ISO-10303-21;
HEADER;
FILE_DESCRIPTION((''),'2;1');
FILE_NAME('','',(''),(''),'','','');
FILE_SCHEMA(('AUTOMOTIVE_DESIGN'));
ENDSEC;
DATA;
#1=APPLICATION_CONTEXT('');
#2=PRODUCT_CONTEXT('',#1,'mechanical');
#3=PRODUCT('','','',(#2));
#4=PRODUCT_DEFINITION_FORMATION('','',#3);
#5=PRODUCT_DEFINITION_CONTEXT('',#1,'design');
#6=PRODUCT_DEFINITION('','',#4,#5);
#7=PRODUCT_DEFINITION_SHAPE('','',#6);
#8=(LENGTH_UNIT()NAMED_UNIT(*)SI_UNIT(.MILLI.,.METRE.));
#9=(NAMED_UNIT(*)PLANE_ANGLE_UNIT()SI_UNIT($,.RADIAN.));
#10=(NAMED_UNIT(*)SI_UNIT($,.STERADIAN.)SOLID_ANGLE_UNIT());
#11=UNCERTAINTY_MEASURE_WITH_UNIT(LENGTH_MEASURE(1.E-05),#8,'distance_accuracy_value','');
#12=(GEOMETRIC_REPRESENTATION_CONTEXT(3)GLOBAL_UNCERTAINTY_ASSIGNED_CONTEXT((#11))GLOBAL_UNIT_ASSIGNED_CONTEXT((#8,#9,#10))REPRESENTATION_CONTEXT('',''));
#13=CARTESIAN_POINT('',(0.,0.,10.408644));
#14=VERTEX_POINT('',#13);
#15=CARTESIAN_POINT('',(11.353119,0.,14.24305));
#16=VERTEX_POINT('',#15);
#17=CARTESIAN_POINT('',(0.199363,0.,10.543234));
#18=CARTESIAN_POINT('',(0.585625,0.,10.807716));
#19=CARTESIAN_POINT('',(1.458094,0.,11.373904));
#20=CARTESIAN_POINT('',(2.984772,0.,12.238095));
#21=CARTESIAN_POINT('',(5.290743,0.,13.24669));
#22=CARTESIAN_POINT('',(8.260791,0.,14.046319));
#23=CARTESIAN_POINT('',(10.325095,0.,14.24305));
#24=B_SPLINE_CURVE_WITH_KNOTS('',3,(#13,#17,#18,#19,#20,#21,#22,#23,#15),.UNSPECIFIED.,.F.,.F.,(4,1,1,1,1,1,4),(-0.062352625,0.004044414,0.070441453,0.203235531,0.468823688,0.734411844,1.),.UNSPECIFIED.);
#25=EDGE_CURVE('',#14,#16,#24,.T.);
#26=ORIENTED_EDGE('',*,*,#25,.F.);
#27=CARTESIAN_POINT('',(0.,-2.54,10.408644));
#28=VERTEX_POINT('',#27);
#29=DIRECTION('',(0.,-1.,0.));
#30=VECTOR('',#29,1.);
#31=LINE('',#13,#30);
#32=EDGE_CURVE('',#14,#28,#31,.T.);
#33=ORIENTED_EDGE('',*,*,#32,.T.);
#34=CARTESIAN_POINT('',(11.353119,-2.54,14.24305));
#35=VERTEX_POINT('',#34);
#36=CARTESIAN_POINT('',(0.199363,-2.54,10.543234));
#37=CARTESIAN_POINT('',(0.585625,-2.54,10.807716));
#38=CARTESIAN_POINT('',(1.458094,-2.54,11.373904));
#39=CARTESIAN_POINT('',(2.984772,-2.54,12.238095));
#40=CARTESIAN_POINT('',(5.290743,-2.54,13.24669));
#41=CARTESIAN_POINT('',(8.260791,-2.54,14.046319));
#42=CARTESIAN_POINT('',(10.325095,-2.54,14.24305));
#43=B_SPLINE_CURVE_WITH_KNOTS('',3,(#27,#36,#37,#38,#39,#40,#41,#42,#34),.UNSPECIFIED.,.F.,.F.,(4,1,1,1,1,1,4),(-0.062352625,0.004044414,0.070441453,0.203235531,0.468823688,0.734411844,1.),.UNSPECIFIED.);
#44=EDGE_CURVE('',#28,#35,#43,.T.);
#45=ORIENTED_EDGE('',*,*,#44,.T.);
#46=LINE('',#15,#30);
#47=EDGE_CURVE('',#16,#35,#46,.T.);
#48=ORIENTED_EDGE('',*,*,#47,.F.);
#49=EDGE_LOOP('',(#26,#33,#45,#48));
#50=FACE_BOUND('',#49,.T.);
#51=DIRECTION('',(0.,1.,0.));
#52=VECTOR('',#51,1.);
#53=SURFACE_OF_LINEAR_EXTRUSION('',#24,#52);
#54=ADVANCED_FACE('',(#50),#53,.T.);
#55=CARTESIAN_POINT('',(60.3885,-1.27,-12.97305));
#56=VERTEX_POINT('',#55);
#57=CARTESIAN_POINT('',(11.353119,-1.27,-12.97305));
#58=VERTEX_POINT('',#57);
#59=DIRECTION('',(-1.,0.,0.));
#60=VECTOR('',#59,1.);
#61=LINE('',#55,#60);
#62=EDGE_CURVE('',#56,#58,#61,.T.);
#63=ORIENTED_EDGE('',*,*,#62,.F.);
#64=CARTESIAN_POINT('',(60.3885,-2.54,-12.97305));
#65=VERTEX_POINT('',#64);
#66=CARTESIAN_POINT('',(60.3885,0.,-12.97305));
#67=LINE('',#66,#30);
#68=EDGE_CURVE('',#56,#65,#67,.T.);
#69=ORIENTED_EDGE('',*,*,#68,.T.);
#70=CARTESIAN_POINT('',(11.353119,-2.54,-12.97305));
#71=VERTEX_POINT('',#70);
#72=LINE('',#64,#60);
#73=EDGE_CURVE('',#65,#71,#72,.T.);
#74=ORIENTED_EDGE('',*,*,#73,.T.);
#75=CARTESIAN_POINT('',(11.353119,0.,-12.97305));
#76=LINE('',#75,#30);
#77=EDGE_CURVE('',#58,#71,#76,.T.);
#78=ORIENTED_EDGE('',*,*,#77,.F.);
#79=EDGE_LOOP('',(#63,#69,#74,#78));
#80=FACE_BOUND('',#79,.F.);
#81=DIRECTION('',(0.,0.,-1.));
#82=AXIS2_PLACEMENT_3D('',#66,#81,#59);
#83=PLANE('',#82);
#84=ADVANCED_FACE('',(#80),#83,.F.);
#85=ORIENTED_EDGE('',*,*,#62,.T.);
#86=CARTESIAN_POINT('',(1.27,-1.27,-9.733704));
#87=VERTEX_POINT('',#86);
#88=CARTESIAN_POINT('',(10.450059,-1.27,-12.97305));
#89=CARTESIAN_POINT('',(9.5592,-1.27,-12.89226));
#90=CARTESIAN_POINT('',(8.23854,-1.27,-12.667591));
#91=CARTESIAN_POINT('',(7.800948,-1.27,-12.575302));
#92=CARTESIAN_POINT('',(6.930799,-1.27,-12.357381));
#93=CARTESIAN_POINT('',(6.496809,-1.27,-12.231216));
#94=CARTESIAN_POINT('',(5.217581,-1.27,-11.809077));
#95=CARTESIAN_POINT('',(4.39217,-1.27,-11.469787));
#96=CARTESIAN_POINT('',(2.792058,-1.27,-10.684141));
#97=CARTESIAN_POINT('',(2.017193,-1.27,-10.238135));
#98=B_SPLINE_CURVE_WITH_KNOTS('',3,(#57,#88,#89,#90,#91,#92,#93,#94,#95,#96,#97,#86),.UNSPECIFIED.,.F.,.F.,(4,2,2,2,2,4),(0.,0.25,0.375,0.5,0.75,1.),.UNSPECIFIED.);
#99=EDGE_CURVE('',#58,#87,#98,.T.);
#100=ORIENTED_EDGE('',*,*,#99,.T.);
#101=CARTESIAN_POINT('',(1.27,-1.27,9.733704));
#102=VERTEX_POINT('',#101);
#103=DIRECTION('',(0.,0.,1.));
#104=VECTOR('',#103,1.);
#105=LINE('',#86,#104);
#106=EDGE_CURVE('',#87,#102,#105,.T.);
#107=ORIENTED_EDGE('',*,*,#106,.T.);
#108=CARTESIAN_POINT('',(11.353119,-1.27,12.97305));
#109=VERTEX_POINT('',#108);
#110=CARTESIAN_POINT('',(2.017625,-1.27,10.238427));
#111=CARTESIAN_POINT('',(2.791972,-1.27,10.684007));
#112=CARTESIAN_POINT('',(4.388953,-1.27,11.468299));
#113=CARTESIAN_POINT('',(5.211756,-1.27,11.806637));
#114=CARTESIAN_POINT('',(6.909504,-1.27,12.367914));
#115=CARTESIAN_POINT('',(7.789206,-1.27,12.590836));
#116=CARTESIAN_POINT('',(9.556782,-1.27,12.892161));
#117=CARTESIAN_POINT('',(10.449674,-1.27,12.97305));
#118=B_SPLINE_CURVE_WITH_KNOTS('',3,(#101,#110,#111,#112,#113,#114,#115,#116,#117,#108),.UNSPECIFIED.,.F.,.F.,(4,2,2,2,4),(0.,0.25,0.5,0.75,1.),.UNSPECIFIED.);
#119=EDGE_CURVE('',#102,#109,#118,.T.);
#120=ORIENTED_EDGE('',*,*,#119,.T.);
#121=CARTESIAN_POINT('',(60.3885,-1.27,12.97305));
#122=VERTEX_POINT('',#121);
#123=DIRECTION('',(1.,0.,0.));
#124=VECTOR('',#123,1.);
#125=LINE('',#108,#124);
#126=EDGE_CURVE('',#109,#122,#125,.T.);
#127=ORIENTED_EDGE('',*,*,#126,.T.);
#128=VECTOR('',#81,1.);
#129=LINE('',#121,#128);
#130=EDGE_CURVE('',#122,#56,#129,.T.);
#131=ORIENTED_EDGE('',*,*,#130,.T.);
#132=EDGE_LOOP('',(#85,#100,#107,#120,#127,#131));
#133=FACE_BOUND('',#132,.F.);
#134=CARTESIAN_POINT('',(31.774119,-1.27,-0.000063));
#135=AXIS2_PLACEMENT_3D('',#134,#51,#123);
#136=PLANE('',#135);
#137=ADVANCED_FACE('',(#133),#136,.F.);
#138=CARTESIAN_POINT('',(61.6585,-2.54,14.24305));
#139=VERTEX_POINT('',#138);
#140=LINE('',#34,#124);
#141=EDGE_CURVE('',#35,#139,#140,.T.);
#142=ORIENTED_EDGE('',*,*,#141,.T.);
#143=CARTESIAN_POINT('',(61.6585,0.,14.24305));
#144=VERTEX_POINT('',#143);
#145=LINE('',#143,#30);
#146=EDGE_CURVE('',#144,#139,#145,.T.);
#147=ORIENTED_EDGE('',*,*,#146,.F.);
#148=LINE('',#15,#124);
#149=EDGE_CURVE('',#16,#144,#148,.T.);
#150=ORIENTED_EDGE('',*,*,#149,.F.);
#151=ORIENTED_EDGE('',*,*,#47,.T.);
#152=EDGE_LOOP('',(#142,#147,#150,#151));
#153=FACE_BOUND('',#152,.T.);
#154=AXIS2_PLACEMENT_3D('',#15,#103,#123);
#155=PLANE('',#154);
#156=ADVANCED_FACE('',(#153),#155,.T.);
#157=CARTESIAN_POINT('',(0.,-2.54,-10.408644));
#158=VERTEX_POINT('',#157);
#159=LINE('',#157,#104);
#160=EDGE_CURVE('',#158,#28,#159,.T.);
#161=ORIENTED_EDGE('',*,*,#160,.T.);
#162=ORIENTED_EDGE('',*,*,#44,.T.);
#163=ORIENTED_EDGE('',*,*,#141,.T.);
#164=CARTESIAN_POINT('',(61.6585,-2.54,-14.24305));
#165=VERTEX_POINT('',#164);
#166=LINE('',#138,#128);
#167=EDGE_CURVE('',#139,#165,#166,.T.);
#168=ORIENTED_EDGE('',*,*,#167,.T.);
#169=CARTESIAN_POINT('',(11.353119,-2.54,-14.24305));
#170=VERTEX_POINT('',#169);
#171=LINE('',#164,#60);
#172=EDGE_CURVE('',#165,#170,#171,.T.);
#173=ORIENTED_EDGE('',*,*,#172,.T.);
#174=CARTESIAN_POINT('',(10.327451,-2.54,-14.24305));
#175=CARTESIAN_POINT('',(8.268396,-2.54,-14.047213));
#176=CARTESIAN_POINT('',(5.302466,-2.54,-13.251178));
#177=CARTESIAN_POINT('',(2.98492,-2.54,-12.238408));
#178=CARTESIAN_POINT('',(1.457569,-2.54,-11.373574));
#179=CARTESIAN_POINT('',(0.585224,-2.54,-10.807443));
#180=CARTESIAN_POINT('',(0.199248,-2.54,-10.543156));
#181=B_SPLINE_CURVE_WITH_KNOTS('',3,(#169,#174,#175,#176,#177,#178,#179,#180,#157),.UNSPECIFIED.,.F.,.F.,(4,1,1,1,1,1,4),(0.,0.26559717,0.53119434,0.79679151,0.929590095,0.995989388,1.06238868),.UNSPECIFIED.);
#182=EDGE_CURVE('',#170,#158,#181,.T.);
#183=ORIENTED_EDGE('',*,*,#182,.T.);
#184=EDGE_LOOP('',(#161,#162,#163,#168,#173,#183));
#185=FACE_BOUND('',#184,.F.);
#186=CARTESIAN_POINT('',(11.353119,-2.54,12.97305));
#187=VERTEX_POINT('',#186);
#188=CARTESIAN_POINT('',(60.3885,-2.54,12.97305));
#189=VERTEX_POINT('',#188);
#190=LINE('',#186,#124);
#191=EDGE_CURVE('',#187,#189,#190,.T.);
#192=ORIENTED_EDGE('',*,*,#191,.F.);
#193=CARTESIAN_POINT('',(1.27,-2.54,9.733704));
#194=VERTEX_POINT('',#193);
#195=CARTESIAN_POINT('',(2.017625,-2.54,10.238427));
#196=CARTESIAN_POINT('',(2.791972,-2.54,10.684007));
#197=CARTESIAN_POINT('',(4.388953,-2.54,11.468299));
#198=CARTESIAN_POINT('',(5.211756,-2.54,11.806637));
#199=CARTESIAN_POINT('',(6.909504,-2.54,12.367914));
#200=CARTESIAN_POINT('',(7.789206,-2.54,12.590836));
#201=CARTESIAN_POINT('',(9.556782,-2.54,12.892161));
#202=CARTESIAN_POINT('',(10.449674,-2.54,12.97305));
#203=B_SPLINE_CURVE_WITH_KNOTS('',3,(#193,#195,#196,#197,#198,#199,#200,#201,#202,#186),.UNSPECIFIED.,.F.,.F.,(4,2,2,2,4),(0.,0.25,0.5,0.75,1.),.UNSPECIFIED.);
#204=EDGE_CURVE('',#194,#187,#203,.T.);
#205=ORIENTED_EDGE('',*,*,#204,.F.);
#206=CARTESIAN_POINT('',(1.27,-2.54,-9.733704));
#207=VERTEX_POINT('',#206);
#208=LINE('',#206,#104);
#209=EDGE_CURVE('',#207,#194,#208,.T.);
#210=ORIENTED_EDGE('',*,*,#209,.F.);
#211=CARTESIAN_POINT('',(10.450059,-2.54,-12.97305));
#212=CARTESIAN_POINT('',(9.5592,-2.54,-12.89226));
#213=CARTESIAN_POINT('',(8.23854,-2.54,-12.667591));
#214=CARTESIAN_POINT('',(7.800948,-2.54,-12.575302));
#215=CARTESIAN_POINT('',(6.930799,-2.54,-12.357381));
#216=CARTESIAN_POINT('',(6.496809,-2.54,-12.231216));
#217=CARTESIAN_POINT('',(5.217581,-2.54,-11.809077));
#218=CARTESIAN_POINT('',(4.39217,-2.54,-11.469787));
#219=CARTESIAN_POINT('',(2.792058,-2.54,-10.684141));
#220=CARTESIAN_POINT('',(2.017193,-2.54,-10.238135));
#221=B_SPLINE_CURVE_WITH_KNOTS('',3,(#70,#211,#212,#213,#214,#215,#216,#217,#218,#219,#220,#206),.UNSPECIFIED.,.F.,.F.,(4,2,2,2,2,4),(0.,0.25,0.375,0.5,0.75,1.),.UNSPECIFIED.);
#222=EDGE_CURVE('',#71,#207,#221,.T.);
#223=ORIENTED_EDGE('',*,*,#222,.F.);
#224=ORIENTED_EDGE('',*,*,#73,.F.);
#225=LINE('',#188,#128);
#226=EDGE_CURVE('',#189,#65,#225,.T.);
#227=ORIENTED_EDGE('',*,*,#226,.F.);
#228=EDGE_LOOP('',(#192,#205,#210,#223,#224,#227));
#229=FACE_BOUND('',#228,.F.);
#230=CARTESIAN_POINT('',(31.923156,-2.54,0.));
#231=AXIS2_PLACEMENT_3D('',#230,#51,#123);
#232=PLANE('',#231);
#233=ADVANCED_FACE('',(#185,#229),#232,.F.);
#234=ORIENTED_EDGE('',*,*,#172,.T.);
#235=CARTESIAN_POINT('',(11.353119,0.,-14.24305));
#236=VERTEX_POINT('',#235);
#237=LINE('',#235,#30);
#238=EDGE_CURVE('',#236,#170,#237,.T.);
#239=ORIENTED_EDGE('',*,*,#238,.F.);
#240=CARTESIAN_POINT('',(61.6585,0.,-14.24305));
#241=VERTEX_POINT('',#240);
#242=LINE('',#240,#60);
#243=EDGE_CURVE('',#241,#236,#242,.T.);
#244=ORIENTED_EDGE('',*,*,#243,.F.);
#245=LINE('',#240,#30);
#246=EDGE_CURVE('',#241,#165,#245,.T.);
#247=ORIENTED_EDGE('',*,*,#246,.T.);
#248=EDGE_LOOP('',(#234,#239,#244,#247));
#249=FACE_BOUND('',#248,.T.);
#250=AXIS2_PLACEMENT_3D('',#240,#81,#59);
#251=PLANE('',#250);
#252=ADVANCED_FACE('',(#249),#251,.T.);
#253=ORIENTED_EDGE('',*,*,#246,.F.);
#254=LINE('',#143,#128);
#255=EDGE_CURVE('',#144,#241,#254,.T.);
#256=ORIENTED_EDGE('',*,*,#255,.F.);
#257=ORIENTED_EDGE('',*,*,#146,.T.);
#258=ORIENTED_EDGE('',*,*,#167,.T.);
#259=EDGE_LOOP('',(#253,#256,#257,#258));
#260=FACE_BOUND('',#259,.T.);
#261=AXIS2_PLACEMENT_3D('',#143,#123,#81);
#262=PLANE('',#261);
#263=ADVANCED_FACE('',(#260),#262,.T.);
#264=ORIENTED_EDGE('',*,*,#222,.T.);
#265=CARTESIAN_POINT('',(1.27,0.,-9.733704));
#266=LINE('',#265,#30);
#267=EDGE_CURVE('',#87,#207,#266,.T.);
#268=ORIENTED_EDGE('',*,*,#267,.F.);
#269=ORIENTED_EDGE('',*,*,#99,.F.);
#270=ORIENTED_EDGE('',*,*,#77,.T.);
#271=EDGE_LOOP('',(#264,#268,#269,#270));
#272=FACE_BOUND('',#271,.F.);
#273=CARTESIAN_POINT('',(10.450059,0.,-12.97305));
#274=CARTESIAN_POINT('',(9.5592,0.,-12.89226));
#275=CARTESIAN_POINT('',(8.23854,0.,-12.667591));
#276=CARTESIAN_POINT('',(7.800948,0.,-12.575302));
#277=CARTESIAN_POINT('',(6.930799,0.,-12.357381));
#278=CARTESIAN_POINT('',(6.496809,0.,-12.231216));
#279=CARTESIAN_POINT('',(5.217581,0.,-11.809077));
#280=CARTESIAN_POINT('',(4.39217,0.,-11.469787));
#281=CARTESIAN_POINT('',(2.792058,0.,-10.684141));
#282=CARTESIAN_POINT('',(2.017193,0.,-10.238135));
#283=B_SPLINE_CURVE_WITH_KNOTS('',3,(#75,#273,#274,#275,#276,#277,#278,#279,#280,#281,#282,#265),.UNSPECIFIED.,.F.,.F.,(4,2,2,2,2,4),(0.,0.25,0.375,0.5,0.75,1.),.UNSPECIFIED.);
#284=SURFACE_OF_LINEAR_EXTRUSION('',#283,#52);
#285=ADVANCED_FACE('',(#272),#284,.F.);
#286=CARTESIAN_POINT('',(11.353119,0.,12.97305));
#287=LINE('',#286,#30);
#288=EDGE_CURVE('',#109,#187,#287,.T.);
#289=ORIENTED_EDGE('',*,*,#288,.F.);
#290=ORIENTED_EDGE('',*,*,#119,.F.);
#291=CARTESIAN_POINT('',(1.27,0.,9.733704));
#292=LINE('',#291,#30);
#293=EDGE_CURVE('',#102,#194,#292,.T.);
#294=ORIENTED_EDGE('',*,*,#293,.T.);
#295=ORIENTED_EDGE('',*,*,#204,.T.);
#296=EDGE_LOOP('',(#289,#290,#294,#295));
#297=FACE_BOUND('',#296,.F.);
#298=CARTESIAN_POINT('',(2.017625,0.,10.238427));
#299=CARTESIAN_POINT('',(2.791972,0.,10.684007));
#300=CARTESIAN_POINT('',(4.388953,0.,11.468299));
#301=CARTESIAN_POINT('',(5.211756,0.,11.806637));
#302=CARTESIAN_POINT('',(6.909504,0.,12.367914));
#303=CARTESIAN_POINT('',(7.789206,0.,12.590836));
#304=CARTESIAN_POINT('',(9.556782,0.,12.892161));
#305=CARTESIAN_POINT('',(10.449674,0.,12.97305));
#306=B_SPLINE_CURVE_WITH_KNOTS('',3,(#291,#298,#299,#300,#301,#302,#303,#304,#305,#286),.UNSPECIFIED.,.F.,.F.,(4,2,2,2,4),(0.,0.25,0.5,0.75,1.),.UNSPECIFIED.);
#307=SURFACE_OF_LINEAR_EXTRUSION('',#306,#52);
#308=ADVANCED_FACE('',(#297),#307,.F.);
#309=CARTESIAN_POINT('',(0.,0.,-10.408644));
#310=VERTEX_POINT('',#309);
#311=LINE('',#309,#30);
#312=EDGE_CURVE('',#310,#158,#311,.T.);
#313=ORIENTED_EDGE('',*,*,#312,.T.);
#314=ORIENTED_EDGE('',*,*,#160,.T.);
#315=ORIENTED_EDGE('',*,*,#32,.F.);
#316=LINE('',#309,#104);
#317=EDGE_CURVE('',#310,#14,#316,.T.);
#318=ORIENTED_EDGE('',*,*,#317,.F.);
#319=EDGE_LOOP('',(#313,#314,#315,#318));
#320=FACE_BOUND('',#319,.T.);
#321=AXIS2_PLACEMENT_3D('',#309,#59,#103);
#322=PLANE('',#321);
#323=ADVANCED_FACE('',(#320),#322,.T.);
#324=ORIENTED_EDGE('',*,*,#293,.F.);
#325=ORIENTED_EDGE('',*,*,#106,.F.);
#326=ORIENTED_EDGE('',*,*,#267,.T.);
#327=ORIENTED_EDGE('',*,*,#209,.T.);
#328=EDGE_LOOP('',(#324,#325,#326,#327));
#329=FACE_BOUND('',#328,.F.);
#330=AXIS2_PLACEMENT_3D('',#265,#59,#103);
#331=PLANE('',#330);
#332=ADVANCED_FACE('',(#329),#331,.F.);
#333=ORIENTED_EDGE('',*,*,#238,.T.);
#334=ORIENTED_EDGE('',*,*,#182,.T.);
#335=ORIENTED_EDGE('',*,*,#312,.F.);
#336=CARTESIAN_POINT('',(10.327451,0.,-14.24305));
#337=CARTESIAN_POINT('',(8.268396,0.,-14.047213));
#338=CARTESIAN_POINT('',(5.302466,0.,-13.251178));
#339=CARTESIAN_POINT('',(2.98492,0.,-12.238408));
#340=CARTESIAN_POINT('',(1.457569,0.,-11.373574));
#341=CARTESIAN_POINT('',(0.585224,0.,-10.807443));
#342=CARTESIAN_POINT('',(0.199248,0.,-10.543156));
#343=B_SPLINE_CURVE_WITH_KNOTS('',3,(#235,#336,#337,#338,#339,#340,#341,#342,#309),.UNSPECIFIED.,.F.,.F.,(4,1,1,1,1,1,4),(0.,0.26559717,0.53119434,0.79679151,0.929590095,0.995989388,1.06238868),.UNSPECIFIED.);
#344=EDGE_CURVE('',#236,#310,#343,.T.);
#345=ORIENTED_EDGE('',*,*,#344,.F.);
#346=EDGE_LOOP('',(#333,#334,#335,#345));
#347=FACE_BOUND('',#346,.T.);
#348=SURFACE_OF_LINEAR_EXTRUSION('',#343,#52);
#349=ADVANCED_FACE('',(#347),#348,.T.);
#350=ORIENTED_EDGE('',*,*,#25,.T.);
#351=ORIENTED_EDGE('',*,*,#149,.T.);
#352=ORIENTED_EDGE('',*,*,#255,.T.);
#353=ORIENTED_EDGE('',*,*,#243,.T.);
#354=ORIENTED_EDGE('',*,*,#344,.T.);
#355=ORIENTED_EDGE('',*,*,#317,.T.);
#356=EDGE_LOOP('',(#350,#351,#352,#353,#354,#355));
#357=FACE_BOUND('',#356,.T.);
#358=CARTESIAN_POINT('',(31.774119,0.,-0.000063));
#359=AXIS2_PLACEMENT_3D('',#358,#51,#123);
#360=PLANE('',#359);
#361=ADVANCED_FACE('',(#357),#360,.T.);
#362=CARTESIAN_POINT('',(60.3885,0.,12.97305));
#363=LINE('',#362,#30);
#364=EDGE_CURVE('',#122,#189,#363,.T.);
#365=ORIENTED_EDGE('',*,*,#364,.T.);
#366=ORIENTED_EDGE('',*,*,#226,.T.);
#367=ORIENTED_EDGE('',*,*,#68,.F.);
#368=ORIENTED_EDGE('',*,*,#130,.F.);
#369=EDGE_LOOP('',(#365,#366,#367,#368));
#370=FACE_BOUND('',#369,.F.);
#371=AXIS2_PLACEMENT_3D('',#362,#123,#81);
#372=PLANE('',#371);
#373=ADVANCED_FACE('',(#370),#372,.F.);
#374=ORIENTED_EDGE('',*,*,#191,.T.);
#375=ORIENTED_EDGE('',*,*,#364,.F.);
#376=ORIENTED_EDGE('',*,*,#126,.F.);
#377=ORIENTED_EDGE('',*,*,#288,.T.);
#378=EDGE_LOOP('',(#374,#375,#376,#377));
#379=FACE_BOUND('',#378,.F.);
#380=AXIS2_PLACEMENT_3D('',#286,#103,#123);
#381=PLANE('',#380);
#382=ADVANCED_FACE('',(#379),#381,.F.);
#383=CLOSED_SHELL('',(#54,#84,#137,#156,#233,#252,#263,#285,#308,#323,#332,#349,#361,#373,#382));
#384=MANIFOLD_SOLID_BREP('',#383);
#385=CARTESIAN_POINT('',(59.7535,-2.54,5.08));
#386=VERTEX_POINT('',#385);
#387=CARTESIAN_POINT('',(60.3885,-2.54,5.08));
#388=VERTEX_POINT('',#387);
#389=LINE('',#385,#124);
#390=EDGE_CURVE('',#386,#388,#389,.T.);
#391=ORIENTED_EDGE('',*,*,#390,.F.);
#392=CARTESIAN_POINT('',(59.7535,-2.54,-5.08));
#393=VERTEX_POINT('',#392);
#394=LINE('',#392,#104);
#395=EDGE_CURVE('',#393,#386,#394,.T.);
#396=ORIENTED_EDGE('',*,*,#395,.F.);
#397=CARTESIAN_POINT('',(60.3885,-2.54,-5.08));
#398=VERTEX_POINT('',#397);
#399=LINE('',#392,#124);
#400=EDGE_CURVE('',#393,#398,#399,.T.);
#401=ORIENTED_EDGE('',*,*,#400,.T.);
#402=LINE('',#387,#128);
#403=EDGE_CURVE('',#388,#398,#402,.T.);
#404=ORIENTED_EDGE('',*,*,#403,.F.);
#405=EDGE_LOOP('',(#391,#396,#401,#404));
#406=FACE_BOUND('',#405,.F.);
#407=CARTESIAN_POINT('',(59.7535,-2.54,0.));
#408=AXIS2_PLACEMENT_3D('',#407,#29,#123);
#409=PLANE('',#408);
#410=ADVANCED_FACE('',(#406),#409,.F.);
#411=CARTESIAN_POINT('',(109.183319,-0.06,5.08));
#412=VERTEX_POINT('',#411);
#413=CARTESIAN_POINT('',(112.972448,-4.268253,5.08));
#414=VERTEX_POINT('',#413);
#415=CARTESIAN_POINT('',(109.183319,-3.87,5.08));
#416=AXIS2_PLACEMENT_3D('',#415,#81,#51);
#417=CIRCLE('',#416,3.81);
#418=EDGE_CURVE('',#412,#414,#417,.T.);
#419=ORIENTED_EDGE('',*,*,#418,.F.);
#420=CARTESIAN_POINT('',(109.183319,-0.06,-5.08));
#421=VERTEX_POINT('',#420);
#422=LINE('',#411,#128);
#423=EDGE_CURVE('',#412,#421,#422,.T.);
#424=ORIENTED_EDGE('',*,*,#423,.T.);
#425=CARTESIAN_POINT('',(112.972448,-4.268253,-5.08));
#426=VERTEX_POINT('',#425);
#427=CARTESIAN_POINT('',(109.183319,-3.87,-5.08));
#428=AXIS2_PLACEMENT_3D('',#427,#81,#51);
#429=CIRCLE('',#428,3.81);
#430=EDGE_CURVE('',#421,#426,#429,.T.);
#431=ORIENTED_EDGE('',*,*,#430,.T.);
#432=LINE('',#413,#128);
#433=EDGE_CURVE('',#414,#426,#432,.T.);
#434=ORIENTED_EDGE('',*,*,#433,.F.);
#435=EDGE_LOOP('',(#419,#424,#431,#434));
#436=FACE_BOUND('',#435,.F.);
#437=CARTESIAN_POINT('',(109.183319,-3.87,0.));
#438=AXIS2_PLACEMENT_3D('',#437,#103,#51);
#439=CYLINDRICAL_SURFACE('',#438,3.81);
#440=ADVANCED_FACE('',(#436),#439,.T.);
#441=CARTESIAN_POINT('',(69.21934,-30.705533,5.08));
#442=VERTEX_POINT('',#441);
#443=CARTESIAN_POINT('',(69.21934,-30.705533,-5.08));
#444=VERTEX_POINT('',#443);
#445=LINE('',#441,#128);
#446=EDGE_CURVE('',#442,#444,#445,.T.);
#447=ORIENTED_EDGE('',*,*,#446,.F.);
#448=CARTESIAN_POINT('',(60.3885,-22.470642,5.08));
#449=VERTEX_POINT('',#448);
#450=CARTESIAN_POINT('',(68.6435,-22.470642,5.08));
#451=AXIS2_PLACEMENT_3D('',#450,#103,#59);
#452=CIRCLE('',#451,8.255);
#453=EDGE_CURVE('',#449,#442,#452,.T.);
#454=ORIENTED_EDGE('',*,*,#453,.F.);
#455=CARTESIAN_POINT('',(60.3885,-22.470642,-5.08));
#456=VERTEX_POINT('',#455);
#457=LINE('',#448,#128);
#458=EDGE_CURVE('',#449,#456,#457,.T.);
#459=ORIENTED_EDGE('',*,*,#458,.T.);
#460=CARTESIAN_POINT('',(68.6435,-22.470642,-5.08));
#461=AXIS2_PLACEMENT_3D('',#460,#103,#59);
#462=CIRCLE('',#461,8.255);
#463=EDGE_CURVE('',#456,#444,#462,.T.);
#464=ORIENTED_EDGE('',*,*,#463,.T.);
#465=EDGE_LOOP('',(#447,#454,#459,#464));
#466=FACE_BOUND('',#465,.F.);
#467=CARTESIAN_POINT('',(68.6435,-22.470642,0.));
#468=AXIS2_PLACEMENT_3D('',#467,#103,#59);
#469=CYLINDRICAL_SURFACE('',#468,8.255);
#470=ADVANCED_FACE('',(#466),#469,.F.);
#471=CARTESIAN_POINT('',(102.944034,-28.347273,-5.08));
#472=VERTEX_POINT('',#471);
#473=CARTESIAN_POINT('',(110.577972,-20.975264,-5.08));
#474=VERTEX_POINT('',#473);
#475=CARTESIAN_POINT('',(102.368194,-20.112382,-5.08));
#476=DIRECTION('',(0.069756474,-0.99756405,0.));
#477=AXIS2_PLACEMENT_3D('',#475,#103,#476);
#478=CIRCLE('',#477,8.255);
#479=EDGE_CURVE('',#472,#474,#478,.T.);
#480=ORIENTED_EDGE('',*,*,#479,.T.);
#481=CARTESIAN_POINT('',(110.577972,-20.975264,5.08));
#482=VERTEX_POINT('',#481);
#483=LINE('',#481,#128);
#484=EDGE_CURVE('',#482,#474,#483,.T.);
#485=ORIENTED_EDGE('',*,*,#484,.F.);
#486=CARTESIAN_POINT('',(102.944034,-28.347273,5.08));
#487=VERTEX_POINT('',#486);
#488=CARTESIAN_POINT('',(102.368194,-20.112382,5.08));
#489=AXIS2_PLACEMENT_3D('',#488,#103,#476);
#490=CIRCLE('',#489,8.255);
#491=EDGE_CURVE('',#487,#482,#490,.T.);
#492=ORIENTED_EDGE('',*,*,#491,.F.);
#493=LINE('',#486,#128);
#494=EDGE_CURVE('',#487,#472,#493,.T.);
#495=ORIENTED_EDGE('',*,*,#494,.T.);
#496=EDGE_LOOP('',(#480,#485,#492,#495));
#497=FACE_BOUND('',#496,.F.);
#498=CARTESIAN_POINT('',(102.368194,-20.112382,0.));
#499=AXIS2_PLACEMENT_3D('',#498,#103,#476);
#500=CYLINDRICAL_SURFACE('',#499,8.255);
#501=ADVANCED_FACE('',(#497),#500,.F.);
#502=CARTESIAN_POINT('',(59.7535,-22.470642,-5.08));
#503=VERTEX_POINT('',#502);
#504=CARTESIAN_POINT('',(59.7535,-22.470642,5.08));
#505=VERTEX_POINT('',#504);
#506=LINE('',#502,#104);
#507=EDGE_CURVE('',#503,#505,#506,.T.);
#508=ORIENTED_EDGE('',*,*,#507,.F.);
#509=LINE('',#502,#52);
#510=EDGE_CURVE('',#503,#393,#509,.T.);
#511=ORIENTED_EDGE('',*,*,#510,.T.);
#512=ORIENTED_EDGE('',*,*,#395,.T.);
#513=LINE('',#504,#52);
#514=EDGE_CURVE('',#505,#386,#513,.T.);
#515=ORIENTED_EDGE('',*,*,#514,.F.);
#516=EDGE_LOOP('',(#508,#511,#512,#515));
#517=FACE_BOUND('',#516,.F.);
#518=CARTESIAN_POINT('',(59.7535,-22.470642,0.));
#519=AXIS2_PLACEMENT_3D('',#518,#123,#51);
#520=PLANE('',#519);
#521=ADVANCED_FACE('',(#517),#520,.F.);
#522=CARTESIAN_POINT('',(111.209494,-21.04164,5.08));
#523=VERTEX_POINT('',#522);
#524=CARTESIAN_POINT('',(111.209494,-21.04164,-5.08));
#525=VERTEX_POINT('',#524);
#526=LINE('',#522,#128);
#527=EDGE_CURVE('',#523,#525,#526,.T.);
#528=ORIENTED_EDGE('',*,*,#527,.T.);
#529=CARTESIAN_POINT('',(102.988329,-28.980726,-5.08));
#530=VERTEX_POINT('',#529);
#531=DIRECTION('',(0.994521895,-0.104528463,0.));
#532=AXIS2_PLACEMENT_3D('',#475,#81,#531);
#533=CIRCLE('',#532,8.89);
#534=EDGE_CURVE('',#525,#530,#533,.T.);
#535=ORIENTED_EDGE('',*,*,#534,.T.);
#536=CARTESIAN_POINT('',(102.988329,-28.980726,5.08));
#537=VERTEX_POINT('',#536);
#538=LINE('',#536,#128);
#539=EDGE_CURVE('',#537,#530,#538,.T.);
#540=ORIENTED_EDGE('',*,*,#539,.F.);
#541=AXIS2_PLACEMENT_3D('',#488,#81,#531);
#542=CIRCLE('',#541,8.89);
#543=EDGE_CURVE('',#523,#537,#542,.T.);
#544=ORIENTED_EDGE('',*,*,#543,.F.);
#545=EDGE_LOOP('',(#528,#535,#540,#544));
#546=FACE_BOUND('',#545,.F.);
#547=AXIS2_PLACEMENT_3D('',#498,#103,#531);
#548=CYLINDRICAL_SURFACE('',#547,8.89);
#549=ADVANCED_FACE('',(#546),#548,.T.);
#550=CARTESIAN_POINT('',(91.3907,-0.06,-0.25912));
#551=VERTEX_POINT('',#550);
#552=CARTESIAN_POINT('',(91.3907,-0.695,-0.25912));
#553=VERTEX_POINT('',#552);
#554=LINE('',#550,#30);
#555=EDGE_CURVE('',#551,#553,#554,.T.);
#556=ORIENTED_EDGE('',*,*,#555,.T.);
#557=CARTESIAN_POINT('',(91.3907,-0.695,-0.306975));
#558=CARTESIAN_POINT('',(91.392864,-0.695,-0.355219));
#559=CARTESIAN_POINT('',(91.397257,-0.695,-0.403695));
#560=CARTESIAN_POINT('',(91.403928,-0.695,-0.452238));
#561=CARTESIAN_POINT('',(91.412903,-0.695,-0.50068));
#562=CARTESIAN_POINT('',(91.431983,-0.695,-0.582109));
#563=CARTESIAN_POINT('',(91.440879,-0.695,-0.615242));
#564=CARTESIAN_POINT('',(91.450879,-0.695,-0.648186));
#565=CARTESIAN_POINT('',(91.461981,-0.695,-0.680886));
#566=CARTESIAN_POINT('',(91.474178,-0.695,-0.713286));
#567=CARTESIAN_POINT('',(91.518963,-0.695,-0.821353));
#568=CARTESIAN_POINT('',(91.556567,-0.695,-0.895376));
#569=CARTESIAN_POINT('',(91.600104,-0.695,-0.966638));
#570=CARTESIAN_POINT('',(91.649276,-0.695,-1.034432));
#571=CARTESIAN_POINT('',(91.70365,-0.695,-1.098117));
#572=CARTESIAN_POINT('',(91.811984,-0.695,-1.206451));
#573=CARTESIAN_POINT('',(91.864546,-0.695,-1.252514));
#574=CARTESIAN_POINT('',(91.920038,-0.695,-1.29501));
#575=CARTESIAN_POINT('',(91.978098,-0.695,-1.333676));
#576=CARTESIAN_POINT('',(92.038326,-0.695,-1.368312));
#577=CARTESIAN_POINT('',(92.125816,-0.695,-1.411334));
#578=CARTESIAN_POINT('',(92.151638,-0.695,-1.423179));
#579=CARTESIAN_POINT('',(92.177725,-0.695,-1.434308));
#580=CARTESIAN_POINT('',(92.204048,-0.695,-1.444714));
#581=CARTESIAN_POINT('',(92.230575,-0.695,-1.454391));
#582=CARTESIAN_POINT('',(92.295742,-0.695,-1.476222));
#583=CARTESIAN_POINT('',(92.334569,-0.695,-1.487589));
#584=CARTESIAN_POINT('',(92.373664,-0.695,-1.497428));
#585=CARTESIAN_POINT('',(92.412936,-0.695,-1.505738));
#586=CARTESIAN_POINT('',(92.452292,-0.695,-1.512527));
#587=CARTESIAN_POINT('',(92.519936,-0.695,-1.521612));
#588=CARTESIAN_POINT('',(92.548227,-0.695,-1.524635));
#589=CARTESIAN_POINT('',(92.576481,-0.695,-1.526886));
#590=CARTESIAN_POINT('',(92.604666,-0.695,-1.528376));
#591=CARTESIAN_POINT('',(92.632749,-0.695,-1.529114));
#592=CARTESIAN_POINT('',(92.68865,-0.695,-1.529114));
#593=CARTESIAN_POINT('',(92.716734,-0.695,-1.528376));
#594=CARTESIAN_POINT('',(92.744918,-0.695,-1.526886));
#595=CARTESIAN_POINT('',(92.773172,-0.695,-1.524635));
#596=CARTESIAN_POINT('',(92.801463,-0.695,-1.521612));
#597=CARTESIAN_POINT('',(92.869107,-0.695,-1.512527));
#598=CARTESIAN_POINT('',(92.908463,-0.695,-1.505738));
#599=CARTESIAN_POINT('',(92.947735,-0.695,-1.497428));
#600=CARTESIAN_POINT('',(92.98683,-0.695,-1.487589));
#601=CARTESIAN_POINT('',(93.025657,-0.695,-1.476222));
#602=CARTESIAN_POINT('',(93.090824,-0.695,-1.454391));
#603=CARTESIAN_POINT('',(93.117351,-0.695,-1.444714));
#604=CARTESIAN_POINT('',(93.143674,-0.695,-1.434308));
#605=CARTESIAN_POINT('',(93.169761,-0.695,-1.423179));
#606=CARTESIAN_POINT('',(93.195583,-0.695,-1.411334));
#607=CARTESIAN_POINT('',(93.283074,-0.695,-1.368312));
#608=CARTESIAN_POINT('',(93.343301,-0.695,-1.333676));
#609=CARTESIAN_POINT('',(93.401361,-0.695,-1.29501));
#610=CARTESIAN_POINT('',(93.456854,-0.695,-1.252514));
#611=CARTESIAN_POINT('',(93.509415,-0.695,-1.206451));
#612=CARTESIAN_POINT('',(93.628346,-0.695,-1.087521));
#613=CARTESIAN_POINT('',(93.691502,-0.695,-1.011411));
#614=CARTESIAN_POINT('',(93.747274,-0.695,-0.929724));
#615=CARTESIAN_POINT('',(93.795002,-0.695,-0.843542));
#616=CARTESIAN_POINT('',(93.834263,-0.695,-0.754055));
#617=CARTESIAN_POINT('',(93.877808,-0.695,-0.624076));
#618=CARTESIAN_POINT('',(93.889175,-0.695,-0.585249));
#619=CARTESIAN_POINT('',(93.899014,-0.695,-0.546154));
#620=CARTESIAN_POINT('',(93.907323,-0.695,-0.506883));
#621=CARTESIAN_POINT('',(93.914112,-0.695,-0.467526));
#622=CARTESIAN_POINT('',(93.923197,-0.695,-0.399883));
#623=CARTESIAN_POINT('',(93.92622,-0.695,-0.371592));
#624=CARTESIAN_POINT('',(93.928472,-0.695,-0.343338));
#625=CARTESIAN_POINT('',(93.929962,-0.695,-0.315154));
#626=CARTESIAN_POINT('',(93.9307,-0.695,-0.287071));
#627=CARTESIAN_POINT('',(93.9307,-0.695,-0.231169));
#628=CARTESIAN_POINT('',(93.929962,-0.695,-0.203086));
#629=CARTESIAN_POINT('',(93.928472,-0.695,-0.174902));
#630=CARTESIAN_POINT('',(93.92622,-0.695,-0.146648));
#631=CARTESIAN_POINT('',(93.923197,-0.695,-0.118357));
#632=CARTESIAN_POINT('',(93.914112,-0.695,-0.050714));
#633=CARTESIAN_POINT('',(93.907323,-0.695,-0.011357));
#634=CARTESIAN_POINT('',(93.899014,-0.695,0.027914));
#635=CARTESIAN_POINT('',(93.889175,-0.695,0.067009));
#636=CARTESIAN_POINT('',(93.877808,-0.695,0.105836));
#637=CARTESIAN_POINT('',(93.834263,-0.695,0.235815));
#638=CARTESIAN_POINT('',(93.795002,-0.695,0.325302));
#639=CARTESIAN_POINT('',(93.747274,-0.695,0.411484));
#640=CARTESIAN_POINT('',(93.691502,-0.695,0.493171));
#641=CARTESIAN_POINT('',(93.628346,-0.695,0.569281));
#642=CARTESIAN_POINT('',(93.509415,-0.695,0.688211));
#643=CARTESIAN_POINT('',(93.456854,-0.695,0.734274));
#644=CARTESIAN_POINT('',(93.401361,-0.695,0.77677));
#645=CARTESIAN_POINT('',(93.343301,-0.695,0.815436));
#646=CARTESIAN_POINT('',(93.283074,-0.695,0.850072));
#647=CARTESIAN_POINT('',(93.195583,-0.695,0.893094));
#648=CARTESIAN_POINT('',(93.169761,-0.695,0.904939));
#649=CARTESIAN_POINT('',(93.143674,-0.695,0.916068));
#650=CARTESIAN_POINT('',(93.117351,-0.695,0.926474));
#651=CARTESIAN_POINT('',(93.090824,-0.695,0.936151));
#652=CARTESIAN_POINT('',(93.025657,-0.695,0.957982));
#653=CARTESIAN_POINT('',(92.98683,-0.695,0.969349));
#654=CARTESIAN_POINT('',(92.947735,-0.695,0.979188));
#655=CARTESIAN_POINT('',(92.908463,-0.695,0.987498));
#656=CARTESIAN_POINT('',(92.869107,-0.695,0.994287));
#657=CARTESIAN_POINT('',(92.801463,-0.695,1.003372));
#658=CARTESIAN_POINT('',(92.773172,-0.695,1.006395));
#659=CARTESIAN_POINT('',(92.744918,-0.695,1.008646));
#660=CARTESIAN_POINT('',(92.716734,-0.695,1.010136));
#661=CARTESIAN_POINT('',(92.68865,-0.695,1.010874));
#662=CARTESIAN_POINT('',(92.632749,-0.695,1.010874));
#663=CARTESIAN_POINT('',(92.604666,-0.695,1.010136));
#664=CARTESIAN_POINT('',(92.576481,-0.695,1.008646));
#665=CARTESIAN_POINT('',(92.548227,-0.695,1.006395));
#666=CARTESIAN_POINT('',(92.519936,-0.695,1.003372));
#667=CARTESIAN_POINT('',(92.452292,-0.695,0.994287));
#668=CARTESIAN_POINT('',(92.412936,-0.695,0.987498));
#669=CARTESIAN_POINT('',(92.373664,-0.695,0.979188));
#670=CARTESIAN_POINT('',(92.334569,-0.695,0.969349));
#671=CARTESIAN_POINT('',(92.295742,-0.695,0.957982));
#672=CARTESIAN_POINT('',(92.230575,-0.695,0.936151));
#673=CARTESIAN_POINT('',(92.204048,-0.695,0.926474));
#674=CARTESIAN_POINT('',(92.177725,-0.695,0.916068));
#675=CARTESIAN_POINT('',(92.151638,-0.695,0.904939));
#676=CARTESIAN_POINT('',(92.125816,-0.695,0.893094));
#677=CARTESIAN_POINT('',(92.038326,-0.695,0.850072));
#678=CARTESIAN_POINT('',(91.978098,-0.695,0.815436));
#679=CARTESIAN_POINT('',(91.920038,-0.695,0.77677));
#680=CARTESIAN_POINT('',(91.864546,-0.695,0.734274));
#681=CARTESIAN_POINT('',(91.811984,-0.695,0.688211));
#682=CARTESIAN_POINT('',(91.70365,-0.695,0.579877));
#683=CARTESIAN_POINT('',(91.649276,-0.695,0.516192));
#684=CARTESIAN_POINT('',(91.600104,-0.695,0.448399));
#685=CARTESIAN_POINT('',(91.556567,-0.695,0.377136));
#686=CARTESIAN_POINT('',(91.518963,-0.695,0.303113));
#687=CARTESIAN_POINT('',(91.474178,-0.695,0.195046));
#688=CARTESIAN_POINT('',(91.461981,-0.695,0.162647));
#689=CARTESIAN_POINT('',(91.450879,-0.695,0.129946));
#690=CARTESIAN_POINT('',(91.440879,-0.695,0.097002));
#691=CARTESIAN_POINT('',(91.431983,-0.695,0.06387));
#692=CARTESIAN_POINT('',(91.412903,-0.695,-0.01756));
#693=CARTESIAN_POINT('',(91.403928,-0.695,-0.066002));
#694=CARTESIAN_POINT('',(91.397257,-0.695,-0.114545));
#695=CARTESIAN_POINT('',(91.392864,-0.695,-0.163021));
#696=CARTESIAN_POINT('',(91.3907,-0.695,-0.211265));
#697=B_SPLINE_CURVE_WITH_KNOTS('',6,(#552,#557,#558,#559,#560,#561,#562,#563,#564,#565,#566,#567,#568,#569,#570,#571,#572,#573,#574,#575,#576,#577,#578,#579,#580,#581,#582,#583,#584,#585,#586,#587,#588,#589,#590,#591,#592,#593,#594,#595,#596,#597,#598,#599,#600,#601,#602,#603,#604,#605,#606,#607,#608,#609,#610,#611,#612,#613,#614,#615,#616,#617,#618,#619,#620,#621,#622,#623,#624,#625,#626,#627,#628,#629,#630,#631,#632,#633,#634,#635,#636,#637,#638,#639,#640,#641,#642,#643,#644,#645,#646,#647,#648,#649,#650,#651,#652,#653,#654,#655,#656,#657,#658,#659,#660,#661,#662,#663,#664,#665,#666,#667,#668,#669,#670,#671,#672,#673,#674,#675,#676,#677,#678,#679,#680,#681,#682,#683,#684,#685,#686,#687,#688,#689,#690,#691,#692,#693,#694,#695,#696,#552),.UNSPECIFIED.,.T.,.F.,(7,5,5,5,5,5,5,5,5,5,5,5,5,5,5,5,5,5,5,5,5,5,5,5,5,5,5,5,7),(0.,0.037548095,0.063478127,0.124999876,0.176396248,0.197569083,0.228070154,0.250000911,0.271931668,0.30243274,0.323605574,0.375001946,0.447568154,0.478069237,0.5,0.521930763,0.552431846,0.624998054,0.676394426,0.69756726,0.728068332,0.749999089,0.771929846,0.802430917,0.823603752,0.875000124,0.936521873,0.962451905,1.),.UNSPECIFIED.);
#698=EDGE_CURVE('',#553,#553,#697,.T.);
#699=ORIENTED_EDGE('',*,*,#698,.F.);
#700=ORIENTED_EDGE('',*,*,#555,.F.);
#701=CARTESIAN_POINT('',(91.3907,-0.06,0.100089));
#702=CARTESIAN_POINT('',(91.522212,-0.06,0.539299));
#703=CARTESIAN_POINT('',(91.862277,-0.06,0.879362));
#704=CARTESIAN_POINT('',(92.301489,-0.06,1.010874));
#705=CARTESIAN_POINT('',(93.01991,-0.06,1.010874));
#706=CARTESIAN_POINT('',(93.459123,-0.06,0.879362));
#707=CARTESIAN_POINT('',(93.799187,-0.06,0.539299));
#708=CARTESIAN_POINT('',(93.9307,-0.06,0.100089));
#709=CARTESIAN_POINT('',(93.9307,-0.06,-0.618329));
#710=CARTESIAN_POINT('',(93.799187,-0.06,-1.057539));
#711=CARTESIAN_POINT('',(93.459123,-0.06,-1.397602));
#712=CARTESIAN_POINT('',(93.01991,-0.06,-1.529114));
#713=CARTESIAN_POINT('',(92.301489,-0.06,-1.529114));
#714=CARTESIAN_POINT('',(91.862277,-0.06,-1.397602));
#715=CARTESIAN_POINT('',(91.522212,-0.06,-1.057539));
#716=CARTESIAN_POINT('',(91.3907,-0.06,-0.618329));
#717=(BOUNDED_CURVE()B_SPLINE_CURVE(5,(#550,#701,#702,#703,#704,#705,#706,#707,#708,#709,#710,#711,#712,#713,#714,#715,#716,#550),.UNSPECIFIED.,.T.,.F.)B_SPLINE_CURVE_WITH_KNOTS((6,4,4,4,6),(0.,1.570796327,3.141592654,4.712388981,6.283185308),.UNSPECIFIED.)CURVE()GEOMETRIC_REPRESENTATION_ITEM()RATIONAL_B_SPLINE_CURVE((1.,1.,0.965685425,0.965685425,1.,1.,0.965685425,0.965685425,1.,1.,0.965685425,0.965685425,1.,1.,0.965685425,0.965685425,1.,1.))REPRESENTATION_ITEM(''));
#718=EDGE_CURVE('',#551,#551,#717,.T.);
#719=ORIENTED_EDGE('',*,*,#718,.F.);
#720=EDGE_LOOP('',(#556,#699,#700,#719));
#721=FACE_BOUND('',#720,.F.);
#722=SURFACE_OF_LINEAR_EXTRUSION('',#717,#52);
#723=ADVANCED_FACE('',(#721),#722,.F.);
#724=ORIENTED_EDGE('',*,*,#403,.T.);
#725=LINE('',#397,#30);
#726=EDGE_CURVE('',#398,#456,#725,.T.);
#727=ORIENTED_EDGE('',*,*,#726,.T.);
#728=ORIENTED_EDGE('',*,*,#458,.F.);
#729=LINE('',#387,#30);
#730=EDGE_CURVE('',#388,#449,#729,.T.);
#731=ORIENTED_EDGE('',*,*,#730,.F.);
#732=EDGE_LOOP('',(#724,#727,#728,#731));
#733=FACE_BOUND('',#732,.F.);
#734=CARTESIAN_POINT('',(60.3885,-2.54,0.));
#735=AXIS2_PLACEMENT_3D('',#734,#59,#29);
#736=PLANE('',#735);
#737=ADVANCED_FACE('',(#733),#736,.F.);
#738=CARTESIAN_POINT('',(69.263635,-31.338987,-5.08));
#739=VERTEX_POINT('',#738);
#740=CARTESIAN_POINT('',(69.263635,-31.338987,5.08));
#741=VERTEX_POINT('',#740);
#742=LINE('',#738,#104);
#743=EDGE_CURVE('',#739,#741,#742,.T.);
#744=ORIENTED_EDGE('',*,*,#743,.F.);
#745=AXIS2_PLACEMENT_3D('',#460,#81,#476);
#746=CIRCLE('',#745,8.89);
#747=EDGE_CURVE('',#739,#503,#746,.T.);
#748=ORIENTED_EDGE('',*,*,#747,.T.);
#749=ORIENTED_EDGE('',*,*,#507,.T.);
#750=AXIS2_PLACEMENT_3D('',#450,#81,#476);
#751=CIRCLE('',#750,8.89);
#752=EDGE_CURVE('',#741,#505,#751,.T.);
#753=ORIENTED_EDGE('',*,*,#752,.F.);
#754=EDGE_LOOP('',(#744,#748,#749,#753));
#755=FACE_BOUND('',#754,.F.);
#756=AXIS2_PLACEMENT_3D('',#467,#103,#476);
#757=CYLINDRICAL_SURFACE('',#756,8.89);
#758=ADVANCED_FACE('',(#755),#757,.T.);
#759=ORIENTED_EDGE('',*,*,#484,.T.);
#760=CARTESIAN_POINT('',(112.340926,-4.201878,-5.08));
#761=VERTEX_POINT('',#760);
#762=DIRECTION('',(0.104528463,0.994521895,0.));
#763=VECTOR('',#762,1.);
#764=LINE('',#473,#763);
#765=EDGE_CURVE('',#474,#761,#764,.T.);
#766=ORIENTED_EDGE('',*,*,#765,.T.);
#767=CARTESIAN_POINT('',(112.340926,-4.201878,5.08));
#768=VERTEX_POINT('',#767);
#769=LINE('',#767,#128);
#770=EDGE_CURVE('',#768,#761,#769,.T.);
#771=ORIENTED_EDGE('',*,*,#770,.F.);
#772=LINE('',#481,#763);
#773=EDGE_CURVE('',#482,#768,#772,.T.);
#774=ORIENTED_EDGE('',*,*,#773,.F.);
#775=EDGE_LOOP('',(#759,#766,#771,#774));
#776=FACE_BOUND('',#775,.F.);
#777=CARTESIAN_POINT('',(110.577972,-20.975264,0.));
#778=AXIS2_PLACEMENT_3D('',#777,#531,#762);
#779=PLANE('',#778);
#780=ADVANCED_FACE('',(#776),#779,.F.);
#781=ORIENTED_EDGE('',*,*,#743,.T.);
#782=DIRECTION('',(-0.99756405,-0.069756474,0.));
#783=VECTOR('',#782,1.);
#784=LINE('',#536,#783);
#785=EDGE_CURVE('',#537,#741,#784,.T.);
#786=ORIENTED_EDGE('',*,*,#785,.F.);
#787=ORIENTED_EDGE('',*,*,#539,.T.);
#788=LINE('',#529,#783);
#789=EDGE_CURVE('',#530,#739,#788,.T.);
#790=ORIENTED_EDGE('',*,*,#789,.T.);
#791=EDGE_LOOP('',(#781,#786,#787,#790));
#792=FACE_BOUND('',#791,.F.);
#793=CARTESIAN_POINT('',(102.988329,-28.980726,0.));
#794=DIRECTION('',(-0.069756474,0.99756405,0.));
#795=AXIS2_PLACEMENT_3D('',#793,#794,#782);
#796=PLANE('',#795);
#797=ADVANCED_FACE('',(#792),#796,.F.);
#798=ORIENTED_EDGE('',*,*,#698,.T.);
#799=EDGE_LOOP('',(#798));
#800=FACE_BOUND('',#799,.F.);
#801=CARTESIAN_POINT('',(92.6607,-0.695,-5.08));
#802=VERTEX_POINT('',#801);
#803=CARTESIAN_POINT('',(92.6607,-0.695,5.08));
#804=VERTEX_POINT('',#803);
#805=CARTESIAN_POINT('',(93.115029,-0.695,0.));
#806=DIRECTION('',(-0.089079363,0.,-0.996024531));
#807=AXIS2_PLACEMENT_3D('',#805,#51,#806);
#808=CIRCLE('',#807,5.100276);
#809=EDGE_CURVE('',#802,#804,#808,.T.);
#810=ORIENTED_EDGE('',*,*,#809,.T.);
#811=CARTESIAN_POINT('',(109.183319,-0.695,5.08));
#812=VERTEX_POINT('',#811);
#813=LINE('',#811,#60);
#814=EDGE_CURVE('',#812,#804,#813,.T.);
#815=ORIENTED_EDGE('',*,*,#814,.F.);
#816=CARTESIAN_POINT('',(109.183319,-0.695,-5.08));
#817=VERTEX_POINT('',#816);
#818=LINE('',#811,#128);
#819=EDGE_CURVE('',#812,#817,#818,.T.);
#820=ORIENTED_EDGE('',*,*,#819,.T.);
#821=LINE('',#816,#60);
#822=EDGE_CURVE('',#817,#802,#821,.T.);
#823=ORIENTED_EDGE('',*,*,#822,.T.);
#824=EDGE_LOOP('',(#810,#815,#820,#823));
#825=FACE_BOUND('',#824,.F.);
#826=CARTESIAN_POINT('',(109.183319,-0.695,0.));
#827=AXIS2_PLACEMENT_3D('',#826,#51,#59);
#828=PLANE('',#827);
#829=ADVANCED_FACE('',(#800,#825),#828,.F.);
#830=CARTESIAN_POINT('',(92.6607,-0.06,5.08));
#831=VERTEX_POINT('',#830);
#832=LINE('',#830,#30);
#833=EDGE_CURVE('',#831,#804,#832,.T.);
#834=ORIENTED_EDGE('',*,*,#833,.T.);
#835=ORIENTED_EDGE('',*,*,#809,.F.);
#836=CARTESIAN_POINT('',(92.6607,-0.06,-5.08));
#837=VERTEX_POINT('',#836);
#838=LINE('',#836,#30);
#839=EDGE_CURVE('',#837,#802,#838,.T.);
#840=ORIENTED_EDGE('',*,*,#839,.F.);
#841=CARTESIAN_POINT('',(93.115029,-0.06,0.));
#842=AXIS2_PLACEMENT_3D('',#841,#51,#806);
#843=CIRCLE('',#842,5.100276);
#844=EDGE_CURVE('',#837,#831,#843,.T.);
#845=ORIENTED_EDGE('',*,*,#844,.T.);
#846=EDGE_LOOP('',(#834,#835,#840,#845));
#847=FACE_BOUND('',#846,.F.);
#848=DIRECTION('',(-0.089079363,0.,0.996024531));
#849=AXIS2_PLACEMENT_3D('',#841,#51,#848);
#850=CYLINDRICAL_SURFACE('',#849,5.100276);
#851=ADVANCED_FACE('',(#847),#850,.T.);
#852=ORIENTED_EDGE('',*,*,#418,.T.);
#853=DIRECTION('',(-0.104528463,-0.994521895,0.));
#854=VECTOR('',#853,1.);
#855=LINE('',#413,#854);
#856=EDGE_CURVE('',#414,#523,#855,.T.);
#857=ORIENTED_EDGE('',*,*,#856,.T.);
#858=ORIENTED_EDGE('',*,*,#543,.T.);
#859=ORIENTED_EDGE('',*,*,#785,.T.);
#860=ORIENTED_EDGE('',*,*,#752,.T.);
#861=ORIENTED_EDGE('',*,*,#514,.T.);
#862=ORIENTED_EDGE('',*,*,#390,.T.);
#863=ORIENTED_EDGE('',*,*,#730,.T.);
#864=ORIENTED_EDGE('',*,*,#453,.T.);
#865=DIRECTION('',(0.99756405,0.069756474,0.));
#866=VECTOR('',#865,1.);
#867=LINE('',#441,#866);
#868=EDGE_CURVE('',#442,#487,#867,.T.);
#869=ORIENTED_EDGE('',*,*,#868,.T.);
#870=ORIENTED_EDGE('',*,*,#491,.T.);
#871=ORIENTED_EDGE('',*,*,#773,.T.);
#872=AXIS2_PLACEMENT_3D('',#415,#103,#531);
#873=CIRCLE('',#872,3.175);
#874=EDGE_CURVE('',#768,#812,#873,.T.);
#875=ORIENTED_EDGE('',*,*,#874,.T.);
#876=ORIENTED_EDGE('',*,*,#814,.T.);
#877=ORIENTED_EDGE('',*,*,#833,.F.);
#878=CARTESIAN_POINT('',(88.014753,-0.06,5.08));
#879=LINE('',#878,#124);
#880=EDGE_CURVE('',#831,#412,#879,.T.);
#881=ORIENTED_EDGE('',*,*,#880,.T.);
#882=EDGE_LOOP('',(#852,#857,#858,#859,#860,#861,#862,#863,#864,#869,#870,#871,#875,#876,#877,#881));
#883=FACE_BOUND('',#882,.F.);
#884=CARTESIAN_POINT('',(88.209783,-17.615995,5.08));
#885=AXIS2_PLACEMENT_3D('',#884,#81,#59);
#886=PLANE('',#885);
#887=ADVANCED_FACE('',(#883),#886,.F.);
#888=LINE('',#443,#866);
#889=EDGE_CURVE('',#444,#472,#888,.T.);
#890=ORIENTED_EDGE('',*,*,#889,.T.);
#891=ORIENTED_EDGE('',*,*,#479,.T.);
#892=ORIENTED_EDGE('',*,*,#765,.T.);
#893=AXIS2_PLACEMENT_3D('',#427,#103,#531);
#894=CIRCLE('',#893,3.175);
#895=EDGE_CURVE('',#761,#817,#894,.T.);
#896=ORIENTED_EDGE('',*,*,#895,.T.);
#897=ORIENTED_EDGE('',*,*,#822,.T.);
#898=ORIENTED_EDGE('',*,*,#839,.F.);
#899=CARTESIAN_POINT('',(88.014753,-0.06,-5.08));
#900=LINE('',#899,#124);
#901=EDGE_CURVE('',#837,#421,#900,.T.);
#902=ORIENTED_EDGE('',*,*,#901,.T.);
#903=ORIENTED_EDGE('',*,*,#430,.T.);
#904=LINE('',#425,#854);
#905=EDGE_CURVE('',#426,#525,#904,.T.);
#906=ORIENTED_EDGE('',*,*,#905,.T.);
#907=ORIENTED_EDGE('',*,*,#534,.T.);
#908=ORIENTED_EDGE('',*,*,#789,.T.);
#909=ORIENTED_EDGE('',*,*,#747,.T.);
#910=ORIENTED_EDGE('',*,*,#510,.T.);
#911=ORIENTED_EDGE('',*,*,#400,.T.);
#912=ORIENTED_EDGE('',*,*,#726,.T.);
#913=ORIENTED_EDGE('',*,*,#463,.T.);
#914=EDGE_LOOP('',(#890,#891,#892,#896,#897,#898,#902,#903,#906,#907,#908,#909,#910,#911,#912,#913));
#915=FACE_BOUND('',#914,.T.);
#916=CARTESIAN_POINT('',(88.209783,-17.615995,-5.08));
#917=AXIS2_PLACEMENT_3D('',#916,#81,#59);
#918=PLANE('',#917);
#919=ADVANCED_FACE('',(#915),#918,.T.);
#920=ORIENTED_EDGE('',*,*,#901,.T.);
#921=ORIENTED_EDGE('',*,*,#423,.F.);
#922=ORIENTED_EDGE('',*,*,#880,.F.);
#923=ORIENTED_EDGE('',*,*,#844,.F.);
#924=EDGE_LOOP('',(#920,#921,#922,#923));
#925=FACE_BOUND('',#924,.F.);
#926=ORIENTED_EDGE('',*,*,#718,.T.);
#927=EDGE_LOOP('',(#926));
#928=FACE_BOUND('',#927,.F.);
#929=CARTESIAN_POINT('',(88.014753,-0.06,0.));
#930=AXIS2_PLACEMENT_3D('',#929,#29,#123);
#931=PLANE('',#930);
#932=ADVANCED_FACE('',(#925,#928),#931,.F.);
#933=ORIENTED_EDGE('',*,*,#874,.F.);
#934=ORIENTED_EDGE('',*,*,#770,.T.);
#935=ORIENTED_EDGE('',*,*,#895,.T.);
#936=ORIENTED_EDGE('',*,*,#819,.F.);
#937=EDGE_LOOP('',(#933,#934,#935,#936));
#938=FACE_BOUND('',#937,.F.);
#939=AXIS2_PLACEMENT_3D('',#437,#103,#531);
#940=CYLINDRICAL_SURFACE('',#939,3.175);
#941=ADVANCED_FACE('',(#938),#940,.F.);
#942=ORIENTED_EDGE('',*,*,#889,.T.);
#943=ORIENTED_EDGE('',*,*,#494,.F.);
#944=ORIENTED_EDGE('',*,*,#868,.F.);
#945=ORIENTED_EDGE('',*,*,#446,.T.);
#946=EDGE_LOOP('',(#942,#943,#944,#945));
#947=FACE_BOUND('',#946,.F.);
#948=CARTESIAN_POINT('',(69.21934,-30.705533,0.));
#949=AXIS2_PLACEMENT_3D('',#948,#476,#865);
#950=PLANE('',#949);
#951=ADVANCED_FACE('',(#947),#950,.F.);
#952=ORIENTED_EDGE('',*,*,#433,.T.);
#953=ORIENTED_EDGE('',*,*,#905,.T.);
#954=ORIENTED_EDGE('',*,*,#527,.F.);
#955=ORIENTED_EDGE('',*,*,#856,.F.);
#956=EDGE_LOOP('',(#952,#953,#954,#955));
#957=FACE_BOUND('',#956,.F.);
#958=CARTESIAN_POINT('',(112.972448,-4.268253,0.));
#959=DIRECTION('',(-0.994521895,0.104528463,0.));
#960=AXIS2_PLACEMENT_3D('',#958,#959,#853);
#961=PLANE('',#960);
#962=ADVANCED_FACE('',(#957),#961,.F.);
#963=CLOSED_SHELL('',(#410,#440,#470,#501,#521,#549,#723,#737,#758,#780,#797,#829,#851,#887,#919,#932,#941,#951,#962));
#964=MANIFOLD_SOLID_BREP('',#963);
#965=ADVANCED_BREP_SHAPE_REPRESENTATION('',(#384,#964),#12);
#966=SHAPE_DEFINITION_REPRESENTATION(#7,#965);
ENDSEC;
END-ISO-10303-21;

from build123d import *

# Parameters (mm, degrees)
BOSS_EXTRUDE1_DEPTH = 2.54
BOSS_EXTRUDE2_DEPTH = 1.27
BOSS_EXTRUDE4_DEPTH = 5.08
CUT_EXTRUDE1_DEPTH  = 10.16


with BuildPart() as part:
    # Sketch2 → Boss-Extrude1 (new body)
    with BuildSketch(Plane(origin=(0, 0, 0), x_dir=(1, 0, 0), z_dir=(0, 1, 0))):
        with BuildLine():
            Line((61.6585, 14.24305), (11.353119278, 14.24305))
            add(Edge.make_bspline(
                [(11.353119278, 14.24305), (10.327450576, 14.24305), (8.268396325, 14.047212971), (5.302466499, 13.251177888), (2.984919751, 12.238407997), (1.457568956, 11.373573602), (0.585224181, 10.807442935), (0.199247928, 10.543156277), (0, 10.408643815)],
                knots=[0, 0, 0, 0, 0.26559717, 0.53119434, 0.79679151, 0.929590095, 0.995989388, 1.06238868, 1.06238868, 1.06238868, 1.06238868], degree=3))
            Line((0, 10.408643815), (0, -10.408643815))
            add(Edge.make_bspline(
                [(0, -10.408643815), (0.199362689, -10.543233752), (0.585625006, -10.807716475), (1.458093765, -11.373904113), (2.984771936, -12.238095031), (5.290743108, -13.246690496), (8.260791434, -14.04631859), (10.325095436, -14.24305), (11.353119278, -14.24305)],
                knots=[-0.062352625, -0.062352625, -0.062352625, -0.062352625, 0.004044414, 0.070441453, 0.203235531, 0.468823688, 0.734411844, 1, 1, 1, 1], degree=3))
            Line((11.353119278, -14.24305), (61.6585, -14.24305))
            Line((61.6585, -14.24305), (61.6585, 14.24305))
        make_face()
        with BuildLine():
            Line((60.3885, 12.97305), (11.353119278, 12.97305))
            add(Edge.make_bspline(
                [(11.353119278, 12.97305), (10.450059292, 12.97305), (9.559200274, 12.892260342), (8.238540183, 12.667590961), (7.800947814, 12.575301907), (6.93079857, 12.357380879), (6.496809339, 12.231215794), (5.217581339, 11.809076607), (4.392169756, 11.469786786), (2.792058433, 10.684140853), (2.017192827, 10.23813493), (1.27, 9.733704358)],
                knots=[0, 0, 0, 0, 0.25, 0.25, 0.375, 0.375, 0.5, 0.5, 0.75, 0.75, 1, 1, 1, 1], degree=3))
            Line((1.27, 9.733704358), (1.27, -9.733704358))
            add(Edge.make_bspline(
                [(1.27, -9.733704358), (2.017624891, -10.238426616), (2.791972237, -10.684006715), (4.38895342, -11.46829921), (5.211756448, -11.806637152), (6.90950361, -12.3679143), (7.789205877, -12.590836152), (9.556782483, -12.892161488), (10.449674156, -12.97305), (11.353119278, -12.97305)],
                knots=[0, 0, 0, 0, 0.25, 0.25, 0.5, 0.5, 0.75, 0.75, 1, 1, 1, 1], degree=3))
            Line((11.353119278, -12.97305), (60.3885, -12.97305))
            Line((60.3885, -12.97305), (60.3885, 12.97305))
        make_face(mode=Mode.SUBTRACT)
    extrude(amount=-BOSS_EXTRUDE1_DEPTH)

    # Sketch3 → Boss-Extrude2 (add)
    with BuildSketch(Plane(origin=(0, 0, 0), x_dir=(1, 0, 0), z_dir=(0, 1, 0))):
        with BuildLine():
            Line((60.3885, 12.97305), (11.353119278, 12.97305))
            add(Edge.make_bspline(
                [(11.353119278, 12.97305), (10.450059292, 12.97305), (9.559200274, 12.892260342), (8.238540183, 12.667590961), (7.800947814, 12.575301907), (6.93079857, 12.357380879), (6.496809339, 12.231215794), (5.217581339, 11.809076607), (4.392169756, 11.469786786), (2.792058433, 10.684140853), (2.017192827, 10.23813493), (1.27, 9.733704358)],
                knots=[0, 0, 0, 0, 0.25, 0.25, 0.375, 0.375, 0.5, 0.5, 0.75, 0.75, 1, 1, 1, 1], degree=3))
            Line((1.27, 9.733704358), (1.27, -9.733704358))
            add(Edge.make_bspline(
                [(1.27, -9.733704358), (2.017624891, -10.238426616), (2.791972237, -10.684006715), (4.38895342, -11.46829921), (5.211756448, -11.806637152), (6.90950361, -12.3679143), (7.789205877, -12.590836152), (9.556782483, -12.892161488), (10.449674156, -12.97305), (11.353119278, -12.97305)],
                knots=[0, 0, 0, 0, 0.25, 0.25, 0.5, 0.5, 0.75, 0.75, 1, 1, 1, 1], degree=3))
            Line((11.353119278, -12.97305), (60.3885, -12.97305))
            Line((60.3885, -12.97305), (60.3885, 12.97305))
        make_face()
    extrude(amount=-BOSS_EXTRUDE2_DEPTH)


with BuildPart() as body_2:
    # Sketch4 → Boss-Extrude4 (new, symmetric)
    with BuildSketch(Plane.XY):
        with BuildLine():
            Line((59.7535, -2.54), (60.3885, -2.54))
            Line((60.3885, -2.54), (60.3885, -3.175))
            Line((60.3885, -3.175), (60.3885, -22.470642168))
            ThreePointArc((60.3885, -22.470642168), (63.013603538, -28.507966975), (69.219339691, -30.705533403))
            Line((69.219339691, -30.705533403), (102.944033871, -28.347273055))
            ThreePointArc((102.944033871, -28.347273055), (108.102599029, -26.050531872), (110.577972427, -20.975264284))
            Line((110.577972427, -20.975264284), (112.340926379, -4.201877871))
            ThreePointArc((112.340926379, -4.201877871), (111.542804182, -1.745510325), (109.183319361, -0.695))
            Line((109.183319361, -0.695), (88.014753042, -0.695))
            Line((88.014753042, -0.695), (88.014753042, -0.06))
            Line((88.014753042, -0.06), (109.183319361, -0.06))
            ThreePointArc((109.183319361, -0.06), (112.014701146, -1.32061239), (112.972447782, -4.268253445))
            Line((112.972447782, -4.268253445), (111.209493831, -21.041639859))
            ThreePointArc((111.209493831, -21.041639859), (108.543707094, -26.507312645), (102.988329232, -28.980726227))
            Line((102.988329232, -28.980726227), (69.263635052, -31.338986575))
            ThreePointArc((69.263635052, -31.338986575), (62.580534579, -28.972376575), (59.7535, -22.470642168))
            Line((59.7535, -22.470642168), (59.7535, -2.54))
        make_face()
    extrude(amount=BOSS_EXTRUDE4_DEPTH, both=True)

    # Sketch5 → Cut-Extrude1 (cut)
    with BuildSketch(Plane(origin=(0, -0.06, 0), x_dir=(1, 0, 0), z_dir=(0, 1, 0))):
        with BuildLine():
            Line((92.660699692, 5.08), (92.660699692, 6.643453505))
            Line((92.660699692, 6.643453505), (85.053554135, 6.643453505))
            Line((85.053554135, 6.643453505), (85.053554135, -6.84888771))
            Line((85.053554135, -6.84888771), (92.660699692, -6.84888771))
            Line((92.660699692, -6.84888771), (92.660699692, -5.08))
            ThreePointArc((92.660699692, -5.08), (88.014753042, 0), (92.660699692, 5.08))
        make_face()
        with BuildLine():
            add(Edge.make_bspline(
                [(93.930699692, 0.259119976), (93.930699692, 1.529114058), (92.660699692, 1.529114058), (91.390699692, 1.529114058), (91.390699692, 0.259119976)],
                knots=[3.141592654, 3.141592654, 3.141592654, 4.71238898, 4.71238898, 6.283185307, 6.283185307, 6.283185307], degree=2, weights=[1, 0.707106781, 1, 0.707106781, 1]))
            add(Edge.make_bspline(
                [(91.390699692, 0.259119976), (91.390699692, -1.010874106), (92.660699692, -1.010874106), (93.930699692, -1.010874106), (93.930699692, 0.259119976)],
                knots=[0, 0, 0, 1.570796327, 1.570796327, 3.141592654, 3.141592654, 3.141592654], degree=2, weights=[1, 0.707106781, 1, 0.707106781, 1]))
        make_face()
    extrude(amount=-CUT_EXTRUDE1_DEPTH, mode=Mode.SUBTRACT)


solid = Compound([part.part, body_2.part])
